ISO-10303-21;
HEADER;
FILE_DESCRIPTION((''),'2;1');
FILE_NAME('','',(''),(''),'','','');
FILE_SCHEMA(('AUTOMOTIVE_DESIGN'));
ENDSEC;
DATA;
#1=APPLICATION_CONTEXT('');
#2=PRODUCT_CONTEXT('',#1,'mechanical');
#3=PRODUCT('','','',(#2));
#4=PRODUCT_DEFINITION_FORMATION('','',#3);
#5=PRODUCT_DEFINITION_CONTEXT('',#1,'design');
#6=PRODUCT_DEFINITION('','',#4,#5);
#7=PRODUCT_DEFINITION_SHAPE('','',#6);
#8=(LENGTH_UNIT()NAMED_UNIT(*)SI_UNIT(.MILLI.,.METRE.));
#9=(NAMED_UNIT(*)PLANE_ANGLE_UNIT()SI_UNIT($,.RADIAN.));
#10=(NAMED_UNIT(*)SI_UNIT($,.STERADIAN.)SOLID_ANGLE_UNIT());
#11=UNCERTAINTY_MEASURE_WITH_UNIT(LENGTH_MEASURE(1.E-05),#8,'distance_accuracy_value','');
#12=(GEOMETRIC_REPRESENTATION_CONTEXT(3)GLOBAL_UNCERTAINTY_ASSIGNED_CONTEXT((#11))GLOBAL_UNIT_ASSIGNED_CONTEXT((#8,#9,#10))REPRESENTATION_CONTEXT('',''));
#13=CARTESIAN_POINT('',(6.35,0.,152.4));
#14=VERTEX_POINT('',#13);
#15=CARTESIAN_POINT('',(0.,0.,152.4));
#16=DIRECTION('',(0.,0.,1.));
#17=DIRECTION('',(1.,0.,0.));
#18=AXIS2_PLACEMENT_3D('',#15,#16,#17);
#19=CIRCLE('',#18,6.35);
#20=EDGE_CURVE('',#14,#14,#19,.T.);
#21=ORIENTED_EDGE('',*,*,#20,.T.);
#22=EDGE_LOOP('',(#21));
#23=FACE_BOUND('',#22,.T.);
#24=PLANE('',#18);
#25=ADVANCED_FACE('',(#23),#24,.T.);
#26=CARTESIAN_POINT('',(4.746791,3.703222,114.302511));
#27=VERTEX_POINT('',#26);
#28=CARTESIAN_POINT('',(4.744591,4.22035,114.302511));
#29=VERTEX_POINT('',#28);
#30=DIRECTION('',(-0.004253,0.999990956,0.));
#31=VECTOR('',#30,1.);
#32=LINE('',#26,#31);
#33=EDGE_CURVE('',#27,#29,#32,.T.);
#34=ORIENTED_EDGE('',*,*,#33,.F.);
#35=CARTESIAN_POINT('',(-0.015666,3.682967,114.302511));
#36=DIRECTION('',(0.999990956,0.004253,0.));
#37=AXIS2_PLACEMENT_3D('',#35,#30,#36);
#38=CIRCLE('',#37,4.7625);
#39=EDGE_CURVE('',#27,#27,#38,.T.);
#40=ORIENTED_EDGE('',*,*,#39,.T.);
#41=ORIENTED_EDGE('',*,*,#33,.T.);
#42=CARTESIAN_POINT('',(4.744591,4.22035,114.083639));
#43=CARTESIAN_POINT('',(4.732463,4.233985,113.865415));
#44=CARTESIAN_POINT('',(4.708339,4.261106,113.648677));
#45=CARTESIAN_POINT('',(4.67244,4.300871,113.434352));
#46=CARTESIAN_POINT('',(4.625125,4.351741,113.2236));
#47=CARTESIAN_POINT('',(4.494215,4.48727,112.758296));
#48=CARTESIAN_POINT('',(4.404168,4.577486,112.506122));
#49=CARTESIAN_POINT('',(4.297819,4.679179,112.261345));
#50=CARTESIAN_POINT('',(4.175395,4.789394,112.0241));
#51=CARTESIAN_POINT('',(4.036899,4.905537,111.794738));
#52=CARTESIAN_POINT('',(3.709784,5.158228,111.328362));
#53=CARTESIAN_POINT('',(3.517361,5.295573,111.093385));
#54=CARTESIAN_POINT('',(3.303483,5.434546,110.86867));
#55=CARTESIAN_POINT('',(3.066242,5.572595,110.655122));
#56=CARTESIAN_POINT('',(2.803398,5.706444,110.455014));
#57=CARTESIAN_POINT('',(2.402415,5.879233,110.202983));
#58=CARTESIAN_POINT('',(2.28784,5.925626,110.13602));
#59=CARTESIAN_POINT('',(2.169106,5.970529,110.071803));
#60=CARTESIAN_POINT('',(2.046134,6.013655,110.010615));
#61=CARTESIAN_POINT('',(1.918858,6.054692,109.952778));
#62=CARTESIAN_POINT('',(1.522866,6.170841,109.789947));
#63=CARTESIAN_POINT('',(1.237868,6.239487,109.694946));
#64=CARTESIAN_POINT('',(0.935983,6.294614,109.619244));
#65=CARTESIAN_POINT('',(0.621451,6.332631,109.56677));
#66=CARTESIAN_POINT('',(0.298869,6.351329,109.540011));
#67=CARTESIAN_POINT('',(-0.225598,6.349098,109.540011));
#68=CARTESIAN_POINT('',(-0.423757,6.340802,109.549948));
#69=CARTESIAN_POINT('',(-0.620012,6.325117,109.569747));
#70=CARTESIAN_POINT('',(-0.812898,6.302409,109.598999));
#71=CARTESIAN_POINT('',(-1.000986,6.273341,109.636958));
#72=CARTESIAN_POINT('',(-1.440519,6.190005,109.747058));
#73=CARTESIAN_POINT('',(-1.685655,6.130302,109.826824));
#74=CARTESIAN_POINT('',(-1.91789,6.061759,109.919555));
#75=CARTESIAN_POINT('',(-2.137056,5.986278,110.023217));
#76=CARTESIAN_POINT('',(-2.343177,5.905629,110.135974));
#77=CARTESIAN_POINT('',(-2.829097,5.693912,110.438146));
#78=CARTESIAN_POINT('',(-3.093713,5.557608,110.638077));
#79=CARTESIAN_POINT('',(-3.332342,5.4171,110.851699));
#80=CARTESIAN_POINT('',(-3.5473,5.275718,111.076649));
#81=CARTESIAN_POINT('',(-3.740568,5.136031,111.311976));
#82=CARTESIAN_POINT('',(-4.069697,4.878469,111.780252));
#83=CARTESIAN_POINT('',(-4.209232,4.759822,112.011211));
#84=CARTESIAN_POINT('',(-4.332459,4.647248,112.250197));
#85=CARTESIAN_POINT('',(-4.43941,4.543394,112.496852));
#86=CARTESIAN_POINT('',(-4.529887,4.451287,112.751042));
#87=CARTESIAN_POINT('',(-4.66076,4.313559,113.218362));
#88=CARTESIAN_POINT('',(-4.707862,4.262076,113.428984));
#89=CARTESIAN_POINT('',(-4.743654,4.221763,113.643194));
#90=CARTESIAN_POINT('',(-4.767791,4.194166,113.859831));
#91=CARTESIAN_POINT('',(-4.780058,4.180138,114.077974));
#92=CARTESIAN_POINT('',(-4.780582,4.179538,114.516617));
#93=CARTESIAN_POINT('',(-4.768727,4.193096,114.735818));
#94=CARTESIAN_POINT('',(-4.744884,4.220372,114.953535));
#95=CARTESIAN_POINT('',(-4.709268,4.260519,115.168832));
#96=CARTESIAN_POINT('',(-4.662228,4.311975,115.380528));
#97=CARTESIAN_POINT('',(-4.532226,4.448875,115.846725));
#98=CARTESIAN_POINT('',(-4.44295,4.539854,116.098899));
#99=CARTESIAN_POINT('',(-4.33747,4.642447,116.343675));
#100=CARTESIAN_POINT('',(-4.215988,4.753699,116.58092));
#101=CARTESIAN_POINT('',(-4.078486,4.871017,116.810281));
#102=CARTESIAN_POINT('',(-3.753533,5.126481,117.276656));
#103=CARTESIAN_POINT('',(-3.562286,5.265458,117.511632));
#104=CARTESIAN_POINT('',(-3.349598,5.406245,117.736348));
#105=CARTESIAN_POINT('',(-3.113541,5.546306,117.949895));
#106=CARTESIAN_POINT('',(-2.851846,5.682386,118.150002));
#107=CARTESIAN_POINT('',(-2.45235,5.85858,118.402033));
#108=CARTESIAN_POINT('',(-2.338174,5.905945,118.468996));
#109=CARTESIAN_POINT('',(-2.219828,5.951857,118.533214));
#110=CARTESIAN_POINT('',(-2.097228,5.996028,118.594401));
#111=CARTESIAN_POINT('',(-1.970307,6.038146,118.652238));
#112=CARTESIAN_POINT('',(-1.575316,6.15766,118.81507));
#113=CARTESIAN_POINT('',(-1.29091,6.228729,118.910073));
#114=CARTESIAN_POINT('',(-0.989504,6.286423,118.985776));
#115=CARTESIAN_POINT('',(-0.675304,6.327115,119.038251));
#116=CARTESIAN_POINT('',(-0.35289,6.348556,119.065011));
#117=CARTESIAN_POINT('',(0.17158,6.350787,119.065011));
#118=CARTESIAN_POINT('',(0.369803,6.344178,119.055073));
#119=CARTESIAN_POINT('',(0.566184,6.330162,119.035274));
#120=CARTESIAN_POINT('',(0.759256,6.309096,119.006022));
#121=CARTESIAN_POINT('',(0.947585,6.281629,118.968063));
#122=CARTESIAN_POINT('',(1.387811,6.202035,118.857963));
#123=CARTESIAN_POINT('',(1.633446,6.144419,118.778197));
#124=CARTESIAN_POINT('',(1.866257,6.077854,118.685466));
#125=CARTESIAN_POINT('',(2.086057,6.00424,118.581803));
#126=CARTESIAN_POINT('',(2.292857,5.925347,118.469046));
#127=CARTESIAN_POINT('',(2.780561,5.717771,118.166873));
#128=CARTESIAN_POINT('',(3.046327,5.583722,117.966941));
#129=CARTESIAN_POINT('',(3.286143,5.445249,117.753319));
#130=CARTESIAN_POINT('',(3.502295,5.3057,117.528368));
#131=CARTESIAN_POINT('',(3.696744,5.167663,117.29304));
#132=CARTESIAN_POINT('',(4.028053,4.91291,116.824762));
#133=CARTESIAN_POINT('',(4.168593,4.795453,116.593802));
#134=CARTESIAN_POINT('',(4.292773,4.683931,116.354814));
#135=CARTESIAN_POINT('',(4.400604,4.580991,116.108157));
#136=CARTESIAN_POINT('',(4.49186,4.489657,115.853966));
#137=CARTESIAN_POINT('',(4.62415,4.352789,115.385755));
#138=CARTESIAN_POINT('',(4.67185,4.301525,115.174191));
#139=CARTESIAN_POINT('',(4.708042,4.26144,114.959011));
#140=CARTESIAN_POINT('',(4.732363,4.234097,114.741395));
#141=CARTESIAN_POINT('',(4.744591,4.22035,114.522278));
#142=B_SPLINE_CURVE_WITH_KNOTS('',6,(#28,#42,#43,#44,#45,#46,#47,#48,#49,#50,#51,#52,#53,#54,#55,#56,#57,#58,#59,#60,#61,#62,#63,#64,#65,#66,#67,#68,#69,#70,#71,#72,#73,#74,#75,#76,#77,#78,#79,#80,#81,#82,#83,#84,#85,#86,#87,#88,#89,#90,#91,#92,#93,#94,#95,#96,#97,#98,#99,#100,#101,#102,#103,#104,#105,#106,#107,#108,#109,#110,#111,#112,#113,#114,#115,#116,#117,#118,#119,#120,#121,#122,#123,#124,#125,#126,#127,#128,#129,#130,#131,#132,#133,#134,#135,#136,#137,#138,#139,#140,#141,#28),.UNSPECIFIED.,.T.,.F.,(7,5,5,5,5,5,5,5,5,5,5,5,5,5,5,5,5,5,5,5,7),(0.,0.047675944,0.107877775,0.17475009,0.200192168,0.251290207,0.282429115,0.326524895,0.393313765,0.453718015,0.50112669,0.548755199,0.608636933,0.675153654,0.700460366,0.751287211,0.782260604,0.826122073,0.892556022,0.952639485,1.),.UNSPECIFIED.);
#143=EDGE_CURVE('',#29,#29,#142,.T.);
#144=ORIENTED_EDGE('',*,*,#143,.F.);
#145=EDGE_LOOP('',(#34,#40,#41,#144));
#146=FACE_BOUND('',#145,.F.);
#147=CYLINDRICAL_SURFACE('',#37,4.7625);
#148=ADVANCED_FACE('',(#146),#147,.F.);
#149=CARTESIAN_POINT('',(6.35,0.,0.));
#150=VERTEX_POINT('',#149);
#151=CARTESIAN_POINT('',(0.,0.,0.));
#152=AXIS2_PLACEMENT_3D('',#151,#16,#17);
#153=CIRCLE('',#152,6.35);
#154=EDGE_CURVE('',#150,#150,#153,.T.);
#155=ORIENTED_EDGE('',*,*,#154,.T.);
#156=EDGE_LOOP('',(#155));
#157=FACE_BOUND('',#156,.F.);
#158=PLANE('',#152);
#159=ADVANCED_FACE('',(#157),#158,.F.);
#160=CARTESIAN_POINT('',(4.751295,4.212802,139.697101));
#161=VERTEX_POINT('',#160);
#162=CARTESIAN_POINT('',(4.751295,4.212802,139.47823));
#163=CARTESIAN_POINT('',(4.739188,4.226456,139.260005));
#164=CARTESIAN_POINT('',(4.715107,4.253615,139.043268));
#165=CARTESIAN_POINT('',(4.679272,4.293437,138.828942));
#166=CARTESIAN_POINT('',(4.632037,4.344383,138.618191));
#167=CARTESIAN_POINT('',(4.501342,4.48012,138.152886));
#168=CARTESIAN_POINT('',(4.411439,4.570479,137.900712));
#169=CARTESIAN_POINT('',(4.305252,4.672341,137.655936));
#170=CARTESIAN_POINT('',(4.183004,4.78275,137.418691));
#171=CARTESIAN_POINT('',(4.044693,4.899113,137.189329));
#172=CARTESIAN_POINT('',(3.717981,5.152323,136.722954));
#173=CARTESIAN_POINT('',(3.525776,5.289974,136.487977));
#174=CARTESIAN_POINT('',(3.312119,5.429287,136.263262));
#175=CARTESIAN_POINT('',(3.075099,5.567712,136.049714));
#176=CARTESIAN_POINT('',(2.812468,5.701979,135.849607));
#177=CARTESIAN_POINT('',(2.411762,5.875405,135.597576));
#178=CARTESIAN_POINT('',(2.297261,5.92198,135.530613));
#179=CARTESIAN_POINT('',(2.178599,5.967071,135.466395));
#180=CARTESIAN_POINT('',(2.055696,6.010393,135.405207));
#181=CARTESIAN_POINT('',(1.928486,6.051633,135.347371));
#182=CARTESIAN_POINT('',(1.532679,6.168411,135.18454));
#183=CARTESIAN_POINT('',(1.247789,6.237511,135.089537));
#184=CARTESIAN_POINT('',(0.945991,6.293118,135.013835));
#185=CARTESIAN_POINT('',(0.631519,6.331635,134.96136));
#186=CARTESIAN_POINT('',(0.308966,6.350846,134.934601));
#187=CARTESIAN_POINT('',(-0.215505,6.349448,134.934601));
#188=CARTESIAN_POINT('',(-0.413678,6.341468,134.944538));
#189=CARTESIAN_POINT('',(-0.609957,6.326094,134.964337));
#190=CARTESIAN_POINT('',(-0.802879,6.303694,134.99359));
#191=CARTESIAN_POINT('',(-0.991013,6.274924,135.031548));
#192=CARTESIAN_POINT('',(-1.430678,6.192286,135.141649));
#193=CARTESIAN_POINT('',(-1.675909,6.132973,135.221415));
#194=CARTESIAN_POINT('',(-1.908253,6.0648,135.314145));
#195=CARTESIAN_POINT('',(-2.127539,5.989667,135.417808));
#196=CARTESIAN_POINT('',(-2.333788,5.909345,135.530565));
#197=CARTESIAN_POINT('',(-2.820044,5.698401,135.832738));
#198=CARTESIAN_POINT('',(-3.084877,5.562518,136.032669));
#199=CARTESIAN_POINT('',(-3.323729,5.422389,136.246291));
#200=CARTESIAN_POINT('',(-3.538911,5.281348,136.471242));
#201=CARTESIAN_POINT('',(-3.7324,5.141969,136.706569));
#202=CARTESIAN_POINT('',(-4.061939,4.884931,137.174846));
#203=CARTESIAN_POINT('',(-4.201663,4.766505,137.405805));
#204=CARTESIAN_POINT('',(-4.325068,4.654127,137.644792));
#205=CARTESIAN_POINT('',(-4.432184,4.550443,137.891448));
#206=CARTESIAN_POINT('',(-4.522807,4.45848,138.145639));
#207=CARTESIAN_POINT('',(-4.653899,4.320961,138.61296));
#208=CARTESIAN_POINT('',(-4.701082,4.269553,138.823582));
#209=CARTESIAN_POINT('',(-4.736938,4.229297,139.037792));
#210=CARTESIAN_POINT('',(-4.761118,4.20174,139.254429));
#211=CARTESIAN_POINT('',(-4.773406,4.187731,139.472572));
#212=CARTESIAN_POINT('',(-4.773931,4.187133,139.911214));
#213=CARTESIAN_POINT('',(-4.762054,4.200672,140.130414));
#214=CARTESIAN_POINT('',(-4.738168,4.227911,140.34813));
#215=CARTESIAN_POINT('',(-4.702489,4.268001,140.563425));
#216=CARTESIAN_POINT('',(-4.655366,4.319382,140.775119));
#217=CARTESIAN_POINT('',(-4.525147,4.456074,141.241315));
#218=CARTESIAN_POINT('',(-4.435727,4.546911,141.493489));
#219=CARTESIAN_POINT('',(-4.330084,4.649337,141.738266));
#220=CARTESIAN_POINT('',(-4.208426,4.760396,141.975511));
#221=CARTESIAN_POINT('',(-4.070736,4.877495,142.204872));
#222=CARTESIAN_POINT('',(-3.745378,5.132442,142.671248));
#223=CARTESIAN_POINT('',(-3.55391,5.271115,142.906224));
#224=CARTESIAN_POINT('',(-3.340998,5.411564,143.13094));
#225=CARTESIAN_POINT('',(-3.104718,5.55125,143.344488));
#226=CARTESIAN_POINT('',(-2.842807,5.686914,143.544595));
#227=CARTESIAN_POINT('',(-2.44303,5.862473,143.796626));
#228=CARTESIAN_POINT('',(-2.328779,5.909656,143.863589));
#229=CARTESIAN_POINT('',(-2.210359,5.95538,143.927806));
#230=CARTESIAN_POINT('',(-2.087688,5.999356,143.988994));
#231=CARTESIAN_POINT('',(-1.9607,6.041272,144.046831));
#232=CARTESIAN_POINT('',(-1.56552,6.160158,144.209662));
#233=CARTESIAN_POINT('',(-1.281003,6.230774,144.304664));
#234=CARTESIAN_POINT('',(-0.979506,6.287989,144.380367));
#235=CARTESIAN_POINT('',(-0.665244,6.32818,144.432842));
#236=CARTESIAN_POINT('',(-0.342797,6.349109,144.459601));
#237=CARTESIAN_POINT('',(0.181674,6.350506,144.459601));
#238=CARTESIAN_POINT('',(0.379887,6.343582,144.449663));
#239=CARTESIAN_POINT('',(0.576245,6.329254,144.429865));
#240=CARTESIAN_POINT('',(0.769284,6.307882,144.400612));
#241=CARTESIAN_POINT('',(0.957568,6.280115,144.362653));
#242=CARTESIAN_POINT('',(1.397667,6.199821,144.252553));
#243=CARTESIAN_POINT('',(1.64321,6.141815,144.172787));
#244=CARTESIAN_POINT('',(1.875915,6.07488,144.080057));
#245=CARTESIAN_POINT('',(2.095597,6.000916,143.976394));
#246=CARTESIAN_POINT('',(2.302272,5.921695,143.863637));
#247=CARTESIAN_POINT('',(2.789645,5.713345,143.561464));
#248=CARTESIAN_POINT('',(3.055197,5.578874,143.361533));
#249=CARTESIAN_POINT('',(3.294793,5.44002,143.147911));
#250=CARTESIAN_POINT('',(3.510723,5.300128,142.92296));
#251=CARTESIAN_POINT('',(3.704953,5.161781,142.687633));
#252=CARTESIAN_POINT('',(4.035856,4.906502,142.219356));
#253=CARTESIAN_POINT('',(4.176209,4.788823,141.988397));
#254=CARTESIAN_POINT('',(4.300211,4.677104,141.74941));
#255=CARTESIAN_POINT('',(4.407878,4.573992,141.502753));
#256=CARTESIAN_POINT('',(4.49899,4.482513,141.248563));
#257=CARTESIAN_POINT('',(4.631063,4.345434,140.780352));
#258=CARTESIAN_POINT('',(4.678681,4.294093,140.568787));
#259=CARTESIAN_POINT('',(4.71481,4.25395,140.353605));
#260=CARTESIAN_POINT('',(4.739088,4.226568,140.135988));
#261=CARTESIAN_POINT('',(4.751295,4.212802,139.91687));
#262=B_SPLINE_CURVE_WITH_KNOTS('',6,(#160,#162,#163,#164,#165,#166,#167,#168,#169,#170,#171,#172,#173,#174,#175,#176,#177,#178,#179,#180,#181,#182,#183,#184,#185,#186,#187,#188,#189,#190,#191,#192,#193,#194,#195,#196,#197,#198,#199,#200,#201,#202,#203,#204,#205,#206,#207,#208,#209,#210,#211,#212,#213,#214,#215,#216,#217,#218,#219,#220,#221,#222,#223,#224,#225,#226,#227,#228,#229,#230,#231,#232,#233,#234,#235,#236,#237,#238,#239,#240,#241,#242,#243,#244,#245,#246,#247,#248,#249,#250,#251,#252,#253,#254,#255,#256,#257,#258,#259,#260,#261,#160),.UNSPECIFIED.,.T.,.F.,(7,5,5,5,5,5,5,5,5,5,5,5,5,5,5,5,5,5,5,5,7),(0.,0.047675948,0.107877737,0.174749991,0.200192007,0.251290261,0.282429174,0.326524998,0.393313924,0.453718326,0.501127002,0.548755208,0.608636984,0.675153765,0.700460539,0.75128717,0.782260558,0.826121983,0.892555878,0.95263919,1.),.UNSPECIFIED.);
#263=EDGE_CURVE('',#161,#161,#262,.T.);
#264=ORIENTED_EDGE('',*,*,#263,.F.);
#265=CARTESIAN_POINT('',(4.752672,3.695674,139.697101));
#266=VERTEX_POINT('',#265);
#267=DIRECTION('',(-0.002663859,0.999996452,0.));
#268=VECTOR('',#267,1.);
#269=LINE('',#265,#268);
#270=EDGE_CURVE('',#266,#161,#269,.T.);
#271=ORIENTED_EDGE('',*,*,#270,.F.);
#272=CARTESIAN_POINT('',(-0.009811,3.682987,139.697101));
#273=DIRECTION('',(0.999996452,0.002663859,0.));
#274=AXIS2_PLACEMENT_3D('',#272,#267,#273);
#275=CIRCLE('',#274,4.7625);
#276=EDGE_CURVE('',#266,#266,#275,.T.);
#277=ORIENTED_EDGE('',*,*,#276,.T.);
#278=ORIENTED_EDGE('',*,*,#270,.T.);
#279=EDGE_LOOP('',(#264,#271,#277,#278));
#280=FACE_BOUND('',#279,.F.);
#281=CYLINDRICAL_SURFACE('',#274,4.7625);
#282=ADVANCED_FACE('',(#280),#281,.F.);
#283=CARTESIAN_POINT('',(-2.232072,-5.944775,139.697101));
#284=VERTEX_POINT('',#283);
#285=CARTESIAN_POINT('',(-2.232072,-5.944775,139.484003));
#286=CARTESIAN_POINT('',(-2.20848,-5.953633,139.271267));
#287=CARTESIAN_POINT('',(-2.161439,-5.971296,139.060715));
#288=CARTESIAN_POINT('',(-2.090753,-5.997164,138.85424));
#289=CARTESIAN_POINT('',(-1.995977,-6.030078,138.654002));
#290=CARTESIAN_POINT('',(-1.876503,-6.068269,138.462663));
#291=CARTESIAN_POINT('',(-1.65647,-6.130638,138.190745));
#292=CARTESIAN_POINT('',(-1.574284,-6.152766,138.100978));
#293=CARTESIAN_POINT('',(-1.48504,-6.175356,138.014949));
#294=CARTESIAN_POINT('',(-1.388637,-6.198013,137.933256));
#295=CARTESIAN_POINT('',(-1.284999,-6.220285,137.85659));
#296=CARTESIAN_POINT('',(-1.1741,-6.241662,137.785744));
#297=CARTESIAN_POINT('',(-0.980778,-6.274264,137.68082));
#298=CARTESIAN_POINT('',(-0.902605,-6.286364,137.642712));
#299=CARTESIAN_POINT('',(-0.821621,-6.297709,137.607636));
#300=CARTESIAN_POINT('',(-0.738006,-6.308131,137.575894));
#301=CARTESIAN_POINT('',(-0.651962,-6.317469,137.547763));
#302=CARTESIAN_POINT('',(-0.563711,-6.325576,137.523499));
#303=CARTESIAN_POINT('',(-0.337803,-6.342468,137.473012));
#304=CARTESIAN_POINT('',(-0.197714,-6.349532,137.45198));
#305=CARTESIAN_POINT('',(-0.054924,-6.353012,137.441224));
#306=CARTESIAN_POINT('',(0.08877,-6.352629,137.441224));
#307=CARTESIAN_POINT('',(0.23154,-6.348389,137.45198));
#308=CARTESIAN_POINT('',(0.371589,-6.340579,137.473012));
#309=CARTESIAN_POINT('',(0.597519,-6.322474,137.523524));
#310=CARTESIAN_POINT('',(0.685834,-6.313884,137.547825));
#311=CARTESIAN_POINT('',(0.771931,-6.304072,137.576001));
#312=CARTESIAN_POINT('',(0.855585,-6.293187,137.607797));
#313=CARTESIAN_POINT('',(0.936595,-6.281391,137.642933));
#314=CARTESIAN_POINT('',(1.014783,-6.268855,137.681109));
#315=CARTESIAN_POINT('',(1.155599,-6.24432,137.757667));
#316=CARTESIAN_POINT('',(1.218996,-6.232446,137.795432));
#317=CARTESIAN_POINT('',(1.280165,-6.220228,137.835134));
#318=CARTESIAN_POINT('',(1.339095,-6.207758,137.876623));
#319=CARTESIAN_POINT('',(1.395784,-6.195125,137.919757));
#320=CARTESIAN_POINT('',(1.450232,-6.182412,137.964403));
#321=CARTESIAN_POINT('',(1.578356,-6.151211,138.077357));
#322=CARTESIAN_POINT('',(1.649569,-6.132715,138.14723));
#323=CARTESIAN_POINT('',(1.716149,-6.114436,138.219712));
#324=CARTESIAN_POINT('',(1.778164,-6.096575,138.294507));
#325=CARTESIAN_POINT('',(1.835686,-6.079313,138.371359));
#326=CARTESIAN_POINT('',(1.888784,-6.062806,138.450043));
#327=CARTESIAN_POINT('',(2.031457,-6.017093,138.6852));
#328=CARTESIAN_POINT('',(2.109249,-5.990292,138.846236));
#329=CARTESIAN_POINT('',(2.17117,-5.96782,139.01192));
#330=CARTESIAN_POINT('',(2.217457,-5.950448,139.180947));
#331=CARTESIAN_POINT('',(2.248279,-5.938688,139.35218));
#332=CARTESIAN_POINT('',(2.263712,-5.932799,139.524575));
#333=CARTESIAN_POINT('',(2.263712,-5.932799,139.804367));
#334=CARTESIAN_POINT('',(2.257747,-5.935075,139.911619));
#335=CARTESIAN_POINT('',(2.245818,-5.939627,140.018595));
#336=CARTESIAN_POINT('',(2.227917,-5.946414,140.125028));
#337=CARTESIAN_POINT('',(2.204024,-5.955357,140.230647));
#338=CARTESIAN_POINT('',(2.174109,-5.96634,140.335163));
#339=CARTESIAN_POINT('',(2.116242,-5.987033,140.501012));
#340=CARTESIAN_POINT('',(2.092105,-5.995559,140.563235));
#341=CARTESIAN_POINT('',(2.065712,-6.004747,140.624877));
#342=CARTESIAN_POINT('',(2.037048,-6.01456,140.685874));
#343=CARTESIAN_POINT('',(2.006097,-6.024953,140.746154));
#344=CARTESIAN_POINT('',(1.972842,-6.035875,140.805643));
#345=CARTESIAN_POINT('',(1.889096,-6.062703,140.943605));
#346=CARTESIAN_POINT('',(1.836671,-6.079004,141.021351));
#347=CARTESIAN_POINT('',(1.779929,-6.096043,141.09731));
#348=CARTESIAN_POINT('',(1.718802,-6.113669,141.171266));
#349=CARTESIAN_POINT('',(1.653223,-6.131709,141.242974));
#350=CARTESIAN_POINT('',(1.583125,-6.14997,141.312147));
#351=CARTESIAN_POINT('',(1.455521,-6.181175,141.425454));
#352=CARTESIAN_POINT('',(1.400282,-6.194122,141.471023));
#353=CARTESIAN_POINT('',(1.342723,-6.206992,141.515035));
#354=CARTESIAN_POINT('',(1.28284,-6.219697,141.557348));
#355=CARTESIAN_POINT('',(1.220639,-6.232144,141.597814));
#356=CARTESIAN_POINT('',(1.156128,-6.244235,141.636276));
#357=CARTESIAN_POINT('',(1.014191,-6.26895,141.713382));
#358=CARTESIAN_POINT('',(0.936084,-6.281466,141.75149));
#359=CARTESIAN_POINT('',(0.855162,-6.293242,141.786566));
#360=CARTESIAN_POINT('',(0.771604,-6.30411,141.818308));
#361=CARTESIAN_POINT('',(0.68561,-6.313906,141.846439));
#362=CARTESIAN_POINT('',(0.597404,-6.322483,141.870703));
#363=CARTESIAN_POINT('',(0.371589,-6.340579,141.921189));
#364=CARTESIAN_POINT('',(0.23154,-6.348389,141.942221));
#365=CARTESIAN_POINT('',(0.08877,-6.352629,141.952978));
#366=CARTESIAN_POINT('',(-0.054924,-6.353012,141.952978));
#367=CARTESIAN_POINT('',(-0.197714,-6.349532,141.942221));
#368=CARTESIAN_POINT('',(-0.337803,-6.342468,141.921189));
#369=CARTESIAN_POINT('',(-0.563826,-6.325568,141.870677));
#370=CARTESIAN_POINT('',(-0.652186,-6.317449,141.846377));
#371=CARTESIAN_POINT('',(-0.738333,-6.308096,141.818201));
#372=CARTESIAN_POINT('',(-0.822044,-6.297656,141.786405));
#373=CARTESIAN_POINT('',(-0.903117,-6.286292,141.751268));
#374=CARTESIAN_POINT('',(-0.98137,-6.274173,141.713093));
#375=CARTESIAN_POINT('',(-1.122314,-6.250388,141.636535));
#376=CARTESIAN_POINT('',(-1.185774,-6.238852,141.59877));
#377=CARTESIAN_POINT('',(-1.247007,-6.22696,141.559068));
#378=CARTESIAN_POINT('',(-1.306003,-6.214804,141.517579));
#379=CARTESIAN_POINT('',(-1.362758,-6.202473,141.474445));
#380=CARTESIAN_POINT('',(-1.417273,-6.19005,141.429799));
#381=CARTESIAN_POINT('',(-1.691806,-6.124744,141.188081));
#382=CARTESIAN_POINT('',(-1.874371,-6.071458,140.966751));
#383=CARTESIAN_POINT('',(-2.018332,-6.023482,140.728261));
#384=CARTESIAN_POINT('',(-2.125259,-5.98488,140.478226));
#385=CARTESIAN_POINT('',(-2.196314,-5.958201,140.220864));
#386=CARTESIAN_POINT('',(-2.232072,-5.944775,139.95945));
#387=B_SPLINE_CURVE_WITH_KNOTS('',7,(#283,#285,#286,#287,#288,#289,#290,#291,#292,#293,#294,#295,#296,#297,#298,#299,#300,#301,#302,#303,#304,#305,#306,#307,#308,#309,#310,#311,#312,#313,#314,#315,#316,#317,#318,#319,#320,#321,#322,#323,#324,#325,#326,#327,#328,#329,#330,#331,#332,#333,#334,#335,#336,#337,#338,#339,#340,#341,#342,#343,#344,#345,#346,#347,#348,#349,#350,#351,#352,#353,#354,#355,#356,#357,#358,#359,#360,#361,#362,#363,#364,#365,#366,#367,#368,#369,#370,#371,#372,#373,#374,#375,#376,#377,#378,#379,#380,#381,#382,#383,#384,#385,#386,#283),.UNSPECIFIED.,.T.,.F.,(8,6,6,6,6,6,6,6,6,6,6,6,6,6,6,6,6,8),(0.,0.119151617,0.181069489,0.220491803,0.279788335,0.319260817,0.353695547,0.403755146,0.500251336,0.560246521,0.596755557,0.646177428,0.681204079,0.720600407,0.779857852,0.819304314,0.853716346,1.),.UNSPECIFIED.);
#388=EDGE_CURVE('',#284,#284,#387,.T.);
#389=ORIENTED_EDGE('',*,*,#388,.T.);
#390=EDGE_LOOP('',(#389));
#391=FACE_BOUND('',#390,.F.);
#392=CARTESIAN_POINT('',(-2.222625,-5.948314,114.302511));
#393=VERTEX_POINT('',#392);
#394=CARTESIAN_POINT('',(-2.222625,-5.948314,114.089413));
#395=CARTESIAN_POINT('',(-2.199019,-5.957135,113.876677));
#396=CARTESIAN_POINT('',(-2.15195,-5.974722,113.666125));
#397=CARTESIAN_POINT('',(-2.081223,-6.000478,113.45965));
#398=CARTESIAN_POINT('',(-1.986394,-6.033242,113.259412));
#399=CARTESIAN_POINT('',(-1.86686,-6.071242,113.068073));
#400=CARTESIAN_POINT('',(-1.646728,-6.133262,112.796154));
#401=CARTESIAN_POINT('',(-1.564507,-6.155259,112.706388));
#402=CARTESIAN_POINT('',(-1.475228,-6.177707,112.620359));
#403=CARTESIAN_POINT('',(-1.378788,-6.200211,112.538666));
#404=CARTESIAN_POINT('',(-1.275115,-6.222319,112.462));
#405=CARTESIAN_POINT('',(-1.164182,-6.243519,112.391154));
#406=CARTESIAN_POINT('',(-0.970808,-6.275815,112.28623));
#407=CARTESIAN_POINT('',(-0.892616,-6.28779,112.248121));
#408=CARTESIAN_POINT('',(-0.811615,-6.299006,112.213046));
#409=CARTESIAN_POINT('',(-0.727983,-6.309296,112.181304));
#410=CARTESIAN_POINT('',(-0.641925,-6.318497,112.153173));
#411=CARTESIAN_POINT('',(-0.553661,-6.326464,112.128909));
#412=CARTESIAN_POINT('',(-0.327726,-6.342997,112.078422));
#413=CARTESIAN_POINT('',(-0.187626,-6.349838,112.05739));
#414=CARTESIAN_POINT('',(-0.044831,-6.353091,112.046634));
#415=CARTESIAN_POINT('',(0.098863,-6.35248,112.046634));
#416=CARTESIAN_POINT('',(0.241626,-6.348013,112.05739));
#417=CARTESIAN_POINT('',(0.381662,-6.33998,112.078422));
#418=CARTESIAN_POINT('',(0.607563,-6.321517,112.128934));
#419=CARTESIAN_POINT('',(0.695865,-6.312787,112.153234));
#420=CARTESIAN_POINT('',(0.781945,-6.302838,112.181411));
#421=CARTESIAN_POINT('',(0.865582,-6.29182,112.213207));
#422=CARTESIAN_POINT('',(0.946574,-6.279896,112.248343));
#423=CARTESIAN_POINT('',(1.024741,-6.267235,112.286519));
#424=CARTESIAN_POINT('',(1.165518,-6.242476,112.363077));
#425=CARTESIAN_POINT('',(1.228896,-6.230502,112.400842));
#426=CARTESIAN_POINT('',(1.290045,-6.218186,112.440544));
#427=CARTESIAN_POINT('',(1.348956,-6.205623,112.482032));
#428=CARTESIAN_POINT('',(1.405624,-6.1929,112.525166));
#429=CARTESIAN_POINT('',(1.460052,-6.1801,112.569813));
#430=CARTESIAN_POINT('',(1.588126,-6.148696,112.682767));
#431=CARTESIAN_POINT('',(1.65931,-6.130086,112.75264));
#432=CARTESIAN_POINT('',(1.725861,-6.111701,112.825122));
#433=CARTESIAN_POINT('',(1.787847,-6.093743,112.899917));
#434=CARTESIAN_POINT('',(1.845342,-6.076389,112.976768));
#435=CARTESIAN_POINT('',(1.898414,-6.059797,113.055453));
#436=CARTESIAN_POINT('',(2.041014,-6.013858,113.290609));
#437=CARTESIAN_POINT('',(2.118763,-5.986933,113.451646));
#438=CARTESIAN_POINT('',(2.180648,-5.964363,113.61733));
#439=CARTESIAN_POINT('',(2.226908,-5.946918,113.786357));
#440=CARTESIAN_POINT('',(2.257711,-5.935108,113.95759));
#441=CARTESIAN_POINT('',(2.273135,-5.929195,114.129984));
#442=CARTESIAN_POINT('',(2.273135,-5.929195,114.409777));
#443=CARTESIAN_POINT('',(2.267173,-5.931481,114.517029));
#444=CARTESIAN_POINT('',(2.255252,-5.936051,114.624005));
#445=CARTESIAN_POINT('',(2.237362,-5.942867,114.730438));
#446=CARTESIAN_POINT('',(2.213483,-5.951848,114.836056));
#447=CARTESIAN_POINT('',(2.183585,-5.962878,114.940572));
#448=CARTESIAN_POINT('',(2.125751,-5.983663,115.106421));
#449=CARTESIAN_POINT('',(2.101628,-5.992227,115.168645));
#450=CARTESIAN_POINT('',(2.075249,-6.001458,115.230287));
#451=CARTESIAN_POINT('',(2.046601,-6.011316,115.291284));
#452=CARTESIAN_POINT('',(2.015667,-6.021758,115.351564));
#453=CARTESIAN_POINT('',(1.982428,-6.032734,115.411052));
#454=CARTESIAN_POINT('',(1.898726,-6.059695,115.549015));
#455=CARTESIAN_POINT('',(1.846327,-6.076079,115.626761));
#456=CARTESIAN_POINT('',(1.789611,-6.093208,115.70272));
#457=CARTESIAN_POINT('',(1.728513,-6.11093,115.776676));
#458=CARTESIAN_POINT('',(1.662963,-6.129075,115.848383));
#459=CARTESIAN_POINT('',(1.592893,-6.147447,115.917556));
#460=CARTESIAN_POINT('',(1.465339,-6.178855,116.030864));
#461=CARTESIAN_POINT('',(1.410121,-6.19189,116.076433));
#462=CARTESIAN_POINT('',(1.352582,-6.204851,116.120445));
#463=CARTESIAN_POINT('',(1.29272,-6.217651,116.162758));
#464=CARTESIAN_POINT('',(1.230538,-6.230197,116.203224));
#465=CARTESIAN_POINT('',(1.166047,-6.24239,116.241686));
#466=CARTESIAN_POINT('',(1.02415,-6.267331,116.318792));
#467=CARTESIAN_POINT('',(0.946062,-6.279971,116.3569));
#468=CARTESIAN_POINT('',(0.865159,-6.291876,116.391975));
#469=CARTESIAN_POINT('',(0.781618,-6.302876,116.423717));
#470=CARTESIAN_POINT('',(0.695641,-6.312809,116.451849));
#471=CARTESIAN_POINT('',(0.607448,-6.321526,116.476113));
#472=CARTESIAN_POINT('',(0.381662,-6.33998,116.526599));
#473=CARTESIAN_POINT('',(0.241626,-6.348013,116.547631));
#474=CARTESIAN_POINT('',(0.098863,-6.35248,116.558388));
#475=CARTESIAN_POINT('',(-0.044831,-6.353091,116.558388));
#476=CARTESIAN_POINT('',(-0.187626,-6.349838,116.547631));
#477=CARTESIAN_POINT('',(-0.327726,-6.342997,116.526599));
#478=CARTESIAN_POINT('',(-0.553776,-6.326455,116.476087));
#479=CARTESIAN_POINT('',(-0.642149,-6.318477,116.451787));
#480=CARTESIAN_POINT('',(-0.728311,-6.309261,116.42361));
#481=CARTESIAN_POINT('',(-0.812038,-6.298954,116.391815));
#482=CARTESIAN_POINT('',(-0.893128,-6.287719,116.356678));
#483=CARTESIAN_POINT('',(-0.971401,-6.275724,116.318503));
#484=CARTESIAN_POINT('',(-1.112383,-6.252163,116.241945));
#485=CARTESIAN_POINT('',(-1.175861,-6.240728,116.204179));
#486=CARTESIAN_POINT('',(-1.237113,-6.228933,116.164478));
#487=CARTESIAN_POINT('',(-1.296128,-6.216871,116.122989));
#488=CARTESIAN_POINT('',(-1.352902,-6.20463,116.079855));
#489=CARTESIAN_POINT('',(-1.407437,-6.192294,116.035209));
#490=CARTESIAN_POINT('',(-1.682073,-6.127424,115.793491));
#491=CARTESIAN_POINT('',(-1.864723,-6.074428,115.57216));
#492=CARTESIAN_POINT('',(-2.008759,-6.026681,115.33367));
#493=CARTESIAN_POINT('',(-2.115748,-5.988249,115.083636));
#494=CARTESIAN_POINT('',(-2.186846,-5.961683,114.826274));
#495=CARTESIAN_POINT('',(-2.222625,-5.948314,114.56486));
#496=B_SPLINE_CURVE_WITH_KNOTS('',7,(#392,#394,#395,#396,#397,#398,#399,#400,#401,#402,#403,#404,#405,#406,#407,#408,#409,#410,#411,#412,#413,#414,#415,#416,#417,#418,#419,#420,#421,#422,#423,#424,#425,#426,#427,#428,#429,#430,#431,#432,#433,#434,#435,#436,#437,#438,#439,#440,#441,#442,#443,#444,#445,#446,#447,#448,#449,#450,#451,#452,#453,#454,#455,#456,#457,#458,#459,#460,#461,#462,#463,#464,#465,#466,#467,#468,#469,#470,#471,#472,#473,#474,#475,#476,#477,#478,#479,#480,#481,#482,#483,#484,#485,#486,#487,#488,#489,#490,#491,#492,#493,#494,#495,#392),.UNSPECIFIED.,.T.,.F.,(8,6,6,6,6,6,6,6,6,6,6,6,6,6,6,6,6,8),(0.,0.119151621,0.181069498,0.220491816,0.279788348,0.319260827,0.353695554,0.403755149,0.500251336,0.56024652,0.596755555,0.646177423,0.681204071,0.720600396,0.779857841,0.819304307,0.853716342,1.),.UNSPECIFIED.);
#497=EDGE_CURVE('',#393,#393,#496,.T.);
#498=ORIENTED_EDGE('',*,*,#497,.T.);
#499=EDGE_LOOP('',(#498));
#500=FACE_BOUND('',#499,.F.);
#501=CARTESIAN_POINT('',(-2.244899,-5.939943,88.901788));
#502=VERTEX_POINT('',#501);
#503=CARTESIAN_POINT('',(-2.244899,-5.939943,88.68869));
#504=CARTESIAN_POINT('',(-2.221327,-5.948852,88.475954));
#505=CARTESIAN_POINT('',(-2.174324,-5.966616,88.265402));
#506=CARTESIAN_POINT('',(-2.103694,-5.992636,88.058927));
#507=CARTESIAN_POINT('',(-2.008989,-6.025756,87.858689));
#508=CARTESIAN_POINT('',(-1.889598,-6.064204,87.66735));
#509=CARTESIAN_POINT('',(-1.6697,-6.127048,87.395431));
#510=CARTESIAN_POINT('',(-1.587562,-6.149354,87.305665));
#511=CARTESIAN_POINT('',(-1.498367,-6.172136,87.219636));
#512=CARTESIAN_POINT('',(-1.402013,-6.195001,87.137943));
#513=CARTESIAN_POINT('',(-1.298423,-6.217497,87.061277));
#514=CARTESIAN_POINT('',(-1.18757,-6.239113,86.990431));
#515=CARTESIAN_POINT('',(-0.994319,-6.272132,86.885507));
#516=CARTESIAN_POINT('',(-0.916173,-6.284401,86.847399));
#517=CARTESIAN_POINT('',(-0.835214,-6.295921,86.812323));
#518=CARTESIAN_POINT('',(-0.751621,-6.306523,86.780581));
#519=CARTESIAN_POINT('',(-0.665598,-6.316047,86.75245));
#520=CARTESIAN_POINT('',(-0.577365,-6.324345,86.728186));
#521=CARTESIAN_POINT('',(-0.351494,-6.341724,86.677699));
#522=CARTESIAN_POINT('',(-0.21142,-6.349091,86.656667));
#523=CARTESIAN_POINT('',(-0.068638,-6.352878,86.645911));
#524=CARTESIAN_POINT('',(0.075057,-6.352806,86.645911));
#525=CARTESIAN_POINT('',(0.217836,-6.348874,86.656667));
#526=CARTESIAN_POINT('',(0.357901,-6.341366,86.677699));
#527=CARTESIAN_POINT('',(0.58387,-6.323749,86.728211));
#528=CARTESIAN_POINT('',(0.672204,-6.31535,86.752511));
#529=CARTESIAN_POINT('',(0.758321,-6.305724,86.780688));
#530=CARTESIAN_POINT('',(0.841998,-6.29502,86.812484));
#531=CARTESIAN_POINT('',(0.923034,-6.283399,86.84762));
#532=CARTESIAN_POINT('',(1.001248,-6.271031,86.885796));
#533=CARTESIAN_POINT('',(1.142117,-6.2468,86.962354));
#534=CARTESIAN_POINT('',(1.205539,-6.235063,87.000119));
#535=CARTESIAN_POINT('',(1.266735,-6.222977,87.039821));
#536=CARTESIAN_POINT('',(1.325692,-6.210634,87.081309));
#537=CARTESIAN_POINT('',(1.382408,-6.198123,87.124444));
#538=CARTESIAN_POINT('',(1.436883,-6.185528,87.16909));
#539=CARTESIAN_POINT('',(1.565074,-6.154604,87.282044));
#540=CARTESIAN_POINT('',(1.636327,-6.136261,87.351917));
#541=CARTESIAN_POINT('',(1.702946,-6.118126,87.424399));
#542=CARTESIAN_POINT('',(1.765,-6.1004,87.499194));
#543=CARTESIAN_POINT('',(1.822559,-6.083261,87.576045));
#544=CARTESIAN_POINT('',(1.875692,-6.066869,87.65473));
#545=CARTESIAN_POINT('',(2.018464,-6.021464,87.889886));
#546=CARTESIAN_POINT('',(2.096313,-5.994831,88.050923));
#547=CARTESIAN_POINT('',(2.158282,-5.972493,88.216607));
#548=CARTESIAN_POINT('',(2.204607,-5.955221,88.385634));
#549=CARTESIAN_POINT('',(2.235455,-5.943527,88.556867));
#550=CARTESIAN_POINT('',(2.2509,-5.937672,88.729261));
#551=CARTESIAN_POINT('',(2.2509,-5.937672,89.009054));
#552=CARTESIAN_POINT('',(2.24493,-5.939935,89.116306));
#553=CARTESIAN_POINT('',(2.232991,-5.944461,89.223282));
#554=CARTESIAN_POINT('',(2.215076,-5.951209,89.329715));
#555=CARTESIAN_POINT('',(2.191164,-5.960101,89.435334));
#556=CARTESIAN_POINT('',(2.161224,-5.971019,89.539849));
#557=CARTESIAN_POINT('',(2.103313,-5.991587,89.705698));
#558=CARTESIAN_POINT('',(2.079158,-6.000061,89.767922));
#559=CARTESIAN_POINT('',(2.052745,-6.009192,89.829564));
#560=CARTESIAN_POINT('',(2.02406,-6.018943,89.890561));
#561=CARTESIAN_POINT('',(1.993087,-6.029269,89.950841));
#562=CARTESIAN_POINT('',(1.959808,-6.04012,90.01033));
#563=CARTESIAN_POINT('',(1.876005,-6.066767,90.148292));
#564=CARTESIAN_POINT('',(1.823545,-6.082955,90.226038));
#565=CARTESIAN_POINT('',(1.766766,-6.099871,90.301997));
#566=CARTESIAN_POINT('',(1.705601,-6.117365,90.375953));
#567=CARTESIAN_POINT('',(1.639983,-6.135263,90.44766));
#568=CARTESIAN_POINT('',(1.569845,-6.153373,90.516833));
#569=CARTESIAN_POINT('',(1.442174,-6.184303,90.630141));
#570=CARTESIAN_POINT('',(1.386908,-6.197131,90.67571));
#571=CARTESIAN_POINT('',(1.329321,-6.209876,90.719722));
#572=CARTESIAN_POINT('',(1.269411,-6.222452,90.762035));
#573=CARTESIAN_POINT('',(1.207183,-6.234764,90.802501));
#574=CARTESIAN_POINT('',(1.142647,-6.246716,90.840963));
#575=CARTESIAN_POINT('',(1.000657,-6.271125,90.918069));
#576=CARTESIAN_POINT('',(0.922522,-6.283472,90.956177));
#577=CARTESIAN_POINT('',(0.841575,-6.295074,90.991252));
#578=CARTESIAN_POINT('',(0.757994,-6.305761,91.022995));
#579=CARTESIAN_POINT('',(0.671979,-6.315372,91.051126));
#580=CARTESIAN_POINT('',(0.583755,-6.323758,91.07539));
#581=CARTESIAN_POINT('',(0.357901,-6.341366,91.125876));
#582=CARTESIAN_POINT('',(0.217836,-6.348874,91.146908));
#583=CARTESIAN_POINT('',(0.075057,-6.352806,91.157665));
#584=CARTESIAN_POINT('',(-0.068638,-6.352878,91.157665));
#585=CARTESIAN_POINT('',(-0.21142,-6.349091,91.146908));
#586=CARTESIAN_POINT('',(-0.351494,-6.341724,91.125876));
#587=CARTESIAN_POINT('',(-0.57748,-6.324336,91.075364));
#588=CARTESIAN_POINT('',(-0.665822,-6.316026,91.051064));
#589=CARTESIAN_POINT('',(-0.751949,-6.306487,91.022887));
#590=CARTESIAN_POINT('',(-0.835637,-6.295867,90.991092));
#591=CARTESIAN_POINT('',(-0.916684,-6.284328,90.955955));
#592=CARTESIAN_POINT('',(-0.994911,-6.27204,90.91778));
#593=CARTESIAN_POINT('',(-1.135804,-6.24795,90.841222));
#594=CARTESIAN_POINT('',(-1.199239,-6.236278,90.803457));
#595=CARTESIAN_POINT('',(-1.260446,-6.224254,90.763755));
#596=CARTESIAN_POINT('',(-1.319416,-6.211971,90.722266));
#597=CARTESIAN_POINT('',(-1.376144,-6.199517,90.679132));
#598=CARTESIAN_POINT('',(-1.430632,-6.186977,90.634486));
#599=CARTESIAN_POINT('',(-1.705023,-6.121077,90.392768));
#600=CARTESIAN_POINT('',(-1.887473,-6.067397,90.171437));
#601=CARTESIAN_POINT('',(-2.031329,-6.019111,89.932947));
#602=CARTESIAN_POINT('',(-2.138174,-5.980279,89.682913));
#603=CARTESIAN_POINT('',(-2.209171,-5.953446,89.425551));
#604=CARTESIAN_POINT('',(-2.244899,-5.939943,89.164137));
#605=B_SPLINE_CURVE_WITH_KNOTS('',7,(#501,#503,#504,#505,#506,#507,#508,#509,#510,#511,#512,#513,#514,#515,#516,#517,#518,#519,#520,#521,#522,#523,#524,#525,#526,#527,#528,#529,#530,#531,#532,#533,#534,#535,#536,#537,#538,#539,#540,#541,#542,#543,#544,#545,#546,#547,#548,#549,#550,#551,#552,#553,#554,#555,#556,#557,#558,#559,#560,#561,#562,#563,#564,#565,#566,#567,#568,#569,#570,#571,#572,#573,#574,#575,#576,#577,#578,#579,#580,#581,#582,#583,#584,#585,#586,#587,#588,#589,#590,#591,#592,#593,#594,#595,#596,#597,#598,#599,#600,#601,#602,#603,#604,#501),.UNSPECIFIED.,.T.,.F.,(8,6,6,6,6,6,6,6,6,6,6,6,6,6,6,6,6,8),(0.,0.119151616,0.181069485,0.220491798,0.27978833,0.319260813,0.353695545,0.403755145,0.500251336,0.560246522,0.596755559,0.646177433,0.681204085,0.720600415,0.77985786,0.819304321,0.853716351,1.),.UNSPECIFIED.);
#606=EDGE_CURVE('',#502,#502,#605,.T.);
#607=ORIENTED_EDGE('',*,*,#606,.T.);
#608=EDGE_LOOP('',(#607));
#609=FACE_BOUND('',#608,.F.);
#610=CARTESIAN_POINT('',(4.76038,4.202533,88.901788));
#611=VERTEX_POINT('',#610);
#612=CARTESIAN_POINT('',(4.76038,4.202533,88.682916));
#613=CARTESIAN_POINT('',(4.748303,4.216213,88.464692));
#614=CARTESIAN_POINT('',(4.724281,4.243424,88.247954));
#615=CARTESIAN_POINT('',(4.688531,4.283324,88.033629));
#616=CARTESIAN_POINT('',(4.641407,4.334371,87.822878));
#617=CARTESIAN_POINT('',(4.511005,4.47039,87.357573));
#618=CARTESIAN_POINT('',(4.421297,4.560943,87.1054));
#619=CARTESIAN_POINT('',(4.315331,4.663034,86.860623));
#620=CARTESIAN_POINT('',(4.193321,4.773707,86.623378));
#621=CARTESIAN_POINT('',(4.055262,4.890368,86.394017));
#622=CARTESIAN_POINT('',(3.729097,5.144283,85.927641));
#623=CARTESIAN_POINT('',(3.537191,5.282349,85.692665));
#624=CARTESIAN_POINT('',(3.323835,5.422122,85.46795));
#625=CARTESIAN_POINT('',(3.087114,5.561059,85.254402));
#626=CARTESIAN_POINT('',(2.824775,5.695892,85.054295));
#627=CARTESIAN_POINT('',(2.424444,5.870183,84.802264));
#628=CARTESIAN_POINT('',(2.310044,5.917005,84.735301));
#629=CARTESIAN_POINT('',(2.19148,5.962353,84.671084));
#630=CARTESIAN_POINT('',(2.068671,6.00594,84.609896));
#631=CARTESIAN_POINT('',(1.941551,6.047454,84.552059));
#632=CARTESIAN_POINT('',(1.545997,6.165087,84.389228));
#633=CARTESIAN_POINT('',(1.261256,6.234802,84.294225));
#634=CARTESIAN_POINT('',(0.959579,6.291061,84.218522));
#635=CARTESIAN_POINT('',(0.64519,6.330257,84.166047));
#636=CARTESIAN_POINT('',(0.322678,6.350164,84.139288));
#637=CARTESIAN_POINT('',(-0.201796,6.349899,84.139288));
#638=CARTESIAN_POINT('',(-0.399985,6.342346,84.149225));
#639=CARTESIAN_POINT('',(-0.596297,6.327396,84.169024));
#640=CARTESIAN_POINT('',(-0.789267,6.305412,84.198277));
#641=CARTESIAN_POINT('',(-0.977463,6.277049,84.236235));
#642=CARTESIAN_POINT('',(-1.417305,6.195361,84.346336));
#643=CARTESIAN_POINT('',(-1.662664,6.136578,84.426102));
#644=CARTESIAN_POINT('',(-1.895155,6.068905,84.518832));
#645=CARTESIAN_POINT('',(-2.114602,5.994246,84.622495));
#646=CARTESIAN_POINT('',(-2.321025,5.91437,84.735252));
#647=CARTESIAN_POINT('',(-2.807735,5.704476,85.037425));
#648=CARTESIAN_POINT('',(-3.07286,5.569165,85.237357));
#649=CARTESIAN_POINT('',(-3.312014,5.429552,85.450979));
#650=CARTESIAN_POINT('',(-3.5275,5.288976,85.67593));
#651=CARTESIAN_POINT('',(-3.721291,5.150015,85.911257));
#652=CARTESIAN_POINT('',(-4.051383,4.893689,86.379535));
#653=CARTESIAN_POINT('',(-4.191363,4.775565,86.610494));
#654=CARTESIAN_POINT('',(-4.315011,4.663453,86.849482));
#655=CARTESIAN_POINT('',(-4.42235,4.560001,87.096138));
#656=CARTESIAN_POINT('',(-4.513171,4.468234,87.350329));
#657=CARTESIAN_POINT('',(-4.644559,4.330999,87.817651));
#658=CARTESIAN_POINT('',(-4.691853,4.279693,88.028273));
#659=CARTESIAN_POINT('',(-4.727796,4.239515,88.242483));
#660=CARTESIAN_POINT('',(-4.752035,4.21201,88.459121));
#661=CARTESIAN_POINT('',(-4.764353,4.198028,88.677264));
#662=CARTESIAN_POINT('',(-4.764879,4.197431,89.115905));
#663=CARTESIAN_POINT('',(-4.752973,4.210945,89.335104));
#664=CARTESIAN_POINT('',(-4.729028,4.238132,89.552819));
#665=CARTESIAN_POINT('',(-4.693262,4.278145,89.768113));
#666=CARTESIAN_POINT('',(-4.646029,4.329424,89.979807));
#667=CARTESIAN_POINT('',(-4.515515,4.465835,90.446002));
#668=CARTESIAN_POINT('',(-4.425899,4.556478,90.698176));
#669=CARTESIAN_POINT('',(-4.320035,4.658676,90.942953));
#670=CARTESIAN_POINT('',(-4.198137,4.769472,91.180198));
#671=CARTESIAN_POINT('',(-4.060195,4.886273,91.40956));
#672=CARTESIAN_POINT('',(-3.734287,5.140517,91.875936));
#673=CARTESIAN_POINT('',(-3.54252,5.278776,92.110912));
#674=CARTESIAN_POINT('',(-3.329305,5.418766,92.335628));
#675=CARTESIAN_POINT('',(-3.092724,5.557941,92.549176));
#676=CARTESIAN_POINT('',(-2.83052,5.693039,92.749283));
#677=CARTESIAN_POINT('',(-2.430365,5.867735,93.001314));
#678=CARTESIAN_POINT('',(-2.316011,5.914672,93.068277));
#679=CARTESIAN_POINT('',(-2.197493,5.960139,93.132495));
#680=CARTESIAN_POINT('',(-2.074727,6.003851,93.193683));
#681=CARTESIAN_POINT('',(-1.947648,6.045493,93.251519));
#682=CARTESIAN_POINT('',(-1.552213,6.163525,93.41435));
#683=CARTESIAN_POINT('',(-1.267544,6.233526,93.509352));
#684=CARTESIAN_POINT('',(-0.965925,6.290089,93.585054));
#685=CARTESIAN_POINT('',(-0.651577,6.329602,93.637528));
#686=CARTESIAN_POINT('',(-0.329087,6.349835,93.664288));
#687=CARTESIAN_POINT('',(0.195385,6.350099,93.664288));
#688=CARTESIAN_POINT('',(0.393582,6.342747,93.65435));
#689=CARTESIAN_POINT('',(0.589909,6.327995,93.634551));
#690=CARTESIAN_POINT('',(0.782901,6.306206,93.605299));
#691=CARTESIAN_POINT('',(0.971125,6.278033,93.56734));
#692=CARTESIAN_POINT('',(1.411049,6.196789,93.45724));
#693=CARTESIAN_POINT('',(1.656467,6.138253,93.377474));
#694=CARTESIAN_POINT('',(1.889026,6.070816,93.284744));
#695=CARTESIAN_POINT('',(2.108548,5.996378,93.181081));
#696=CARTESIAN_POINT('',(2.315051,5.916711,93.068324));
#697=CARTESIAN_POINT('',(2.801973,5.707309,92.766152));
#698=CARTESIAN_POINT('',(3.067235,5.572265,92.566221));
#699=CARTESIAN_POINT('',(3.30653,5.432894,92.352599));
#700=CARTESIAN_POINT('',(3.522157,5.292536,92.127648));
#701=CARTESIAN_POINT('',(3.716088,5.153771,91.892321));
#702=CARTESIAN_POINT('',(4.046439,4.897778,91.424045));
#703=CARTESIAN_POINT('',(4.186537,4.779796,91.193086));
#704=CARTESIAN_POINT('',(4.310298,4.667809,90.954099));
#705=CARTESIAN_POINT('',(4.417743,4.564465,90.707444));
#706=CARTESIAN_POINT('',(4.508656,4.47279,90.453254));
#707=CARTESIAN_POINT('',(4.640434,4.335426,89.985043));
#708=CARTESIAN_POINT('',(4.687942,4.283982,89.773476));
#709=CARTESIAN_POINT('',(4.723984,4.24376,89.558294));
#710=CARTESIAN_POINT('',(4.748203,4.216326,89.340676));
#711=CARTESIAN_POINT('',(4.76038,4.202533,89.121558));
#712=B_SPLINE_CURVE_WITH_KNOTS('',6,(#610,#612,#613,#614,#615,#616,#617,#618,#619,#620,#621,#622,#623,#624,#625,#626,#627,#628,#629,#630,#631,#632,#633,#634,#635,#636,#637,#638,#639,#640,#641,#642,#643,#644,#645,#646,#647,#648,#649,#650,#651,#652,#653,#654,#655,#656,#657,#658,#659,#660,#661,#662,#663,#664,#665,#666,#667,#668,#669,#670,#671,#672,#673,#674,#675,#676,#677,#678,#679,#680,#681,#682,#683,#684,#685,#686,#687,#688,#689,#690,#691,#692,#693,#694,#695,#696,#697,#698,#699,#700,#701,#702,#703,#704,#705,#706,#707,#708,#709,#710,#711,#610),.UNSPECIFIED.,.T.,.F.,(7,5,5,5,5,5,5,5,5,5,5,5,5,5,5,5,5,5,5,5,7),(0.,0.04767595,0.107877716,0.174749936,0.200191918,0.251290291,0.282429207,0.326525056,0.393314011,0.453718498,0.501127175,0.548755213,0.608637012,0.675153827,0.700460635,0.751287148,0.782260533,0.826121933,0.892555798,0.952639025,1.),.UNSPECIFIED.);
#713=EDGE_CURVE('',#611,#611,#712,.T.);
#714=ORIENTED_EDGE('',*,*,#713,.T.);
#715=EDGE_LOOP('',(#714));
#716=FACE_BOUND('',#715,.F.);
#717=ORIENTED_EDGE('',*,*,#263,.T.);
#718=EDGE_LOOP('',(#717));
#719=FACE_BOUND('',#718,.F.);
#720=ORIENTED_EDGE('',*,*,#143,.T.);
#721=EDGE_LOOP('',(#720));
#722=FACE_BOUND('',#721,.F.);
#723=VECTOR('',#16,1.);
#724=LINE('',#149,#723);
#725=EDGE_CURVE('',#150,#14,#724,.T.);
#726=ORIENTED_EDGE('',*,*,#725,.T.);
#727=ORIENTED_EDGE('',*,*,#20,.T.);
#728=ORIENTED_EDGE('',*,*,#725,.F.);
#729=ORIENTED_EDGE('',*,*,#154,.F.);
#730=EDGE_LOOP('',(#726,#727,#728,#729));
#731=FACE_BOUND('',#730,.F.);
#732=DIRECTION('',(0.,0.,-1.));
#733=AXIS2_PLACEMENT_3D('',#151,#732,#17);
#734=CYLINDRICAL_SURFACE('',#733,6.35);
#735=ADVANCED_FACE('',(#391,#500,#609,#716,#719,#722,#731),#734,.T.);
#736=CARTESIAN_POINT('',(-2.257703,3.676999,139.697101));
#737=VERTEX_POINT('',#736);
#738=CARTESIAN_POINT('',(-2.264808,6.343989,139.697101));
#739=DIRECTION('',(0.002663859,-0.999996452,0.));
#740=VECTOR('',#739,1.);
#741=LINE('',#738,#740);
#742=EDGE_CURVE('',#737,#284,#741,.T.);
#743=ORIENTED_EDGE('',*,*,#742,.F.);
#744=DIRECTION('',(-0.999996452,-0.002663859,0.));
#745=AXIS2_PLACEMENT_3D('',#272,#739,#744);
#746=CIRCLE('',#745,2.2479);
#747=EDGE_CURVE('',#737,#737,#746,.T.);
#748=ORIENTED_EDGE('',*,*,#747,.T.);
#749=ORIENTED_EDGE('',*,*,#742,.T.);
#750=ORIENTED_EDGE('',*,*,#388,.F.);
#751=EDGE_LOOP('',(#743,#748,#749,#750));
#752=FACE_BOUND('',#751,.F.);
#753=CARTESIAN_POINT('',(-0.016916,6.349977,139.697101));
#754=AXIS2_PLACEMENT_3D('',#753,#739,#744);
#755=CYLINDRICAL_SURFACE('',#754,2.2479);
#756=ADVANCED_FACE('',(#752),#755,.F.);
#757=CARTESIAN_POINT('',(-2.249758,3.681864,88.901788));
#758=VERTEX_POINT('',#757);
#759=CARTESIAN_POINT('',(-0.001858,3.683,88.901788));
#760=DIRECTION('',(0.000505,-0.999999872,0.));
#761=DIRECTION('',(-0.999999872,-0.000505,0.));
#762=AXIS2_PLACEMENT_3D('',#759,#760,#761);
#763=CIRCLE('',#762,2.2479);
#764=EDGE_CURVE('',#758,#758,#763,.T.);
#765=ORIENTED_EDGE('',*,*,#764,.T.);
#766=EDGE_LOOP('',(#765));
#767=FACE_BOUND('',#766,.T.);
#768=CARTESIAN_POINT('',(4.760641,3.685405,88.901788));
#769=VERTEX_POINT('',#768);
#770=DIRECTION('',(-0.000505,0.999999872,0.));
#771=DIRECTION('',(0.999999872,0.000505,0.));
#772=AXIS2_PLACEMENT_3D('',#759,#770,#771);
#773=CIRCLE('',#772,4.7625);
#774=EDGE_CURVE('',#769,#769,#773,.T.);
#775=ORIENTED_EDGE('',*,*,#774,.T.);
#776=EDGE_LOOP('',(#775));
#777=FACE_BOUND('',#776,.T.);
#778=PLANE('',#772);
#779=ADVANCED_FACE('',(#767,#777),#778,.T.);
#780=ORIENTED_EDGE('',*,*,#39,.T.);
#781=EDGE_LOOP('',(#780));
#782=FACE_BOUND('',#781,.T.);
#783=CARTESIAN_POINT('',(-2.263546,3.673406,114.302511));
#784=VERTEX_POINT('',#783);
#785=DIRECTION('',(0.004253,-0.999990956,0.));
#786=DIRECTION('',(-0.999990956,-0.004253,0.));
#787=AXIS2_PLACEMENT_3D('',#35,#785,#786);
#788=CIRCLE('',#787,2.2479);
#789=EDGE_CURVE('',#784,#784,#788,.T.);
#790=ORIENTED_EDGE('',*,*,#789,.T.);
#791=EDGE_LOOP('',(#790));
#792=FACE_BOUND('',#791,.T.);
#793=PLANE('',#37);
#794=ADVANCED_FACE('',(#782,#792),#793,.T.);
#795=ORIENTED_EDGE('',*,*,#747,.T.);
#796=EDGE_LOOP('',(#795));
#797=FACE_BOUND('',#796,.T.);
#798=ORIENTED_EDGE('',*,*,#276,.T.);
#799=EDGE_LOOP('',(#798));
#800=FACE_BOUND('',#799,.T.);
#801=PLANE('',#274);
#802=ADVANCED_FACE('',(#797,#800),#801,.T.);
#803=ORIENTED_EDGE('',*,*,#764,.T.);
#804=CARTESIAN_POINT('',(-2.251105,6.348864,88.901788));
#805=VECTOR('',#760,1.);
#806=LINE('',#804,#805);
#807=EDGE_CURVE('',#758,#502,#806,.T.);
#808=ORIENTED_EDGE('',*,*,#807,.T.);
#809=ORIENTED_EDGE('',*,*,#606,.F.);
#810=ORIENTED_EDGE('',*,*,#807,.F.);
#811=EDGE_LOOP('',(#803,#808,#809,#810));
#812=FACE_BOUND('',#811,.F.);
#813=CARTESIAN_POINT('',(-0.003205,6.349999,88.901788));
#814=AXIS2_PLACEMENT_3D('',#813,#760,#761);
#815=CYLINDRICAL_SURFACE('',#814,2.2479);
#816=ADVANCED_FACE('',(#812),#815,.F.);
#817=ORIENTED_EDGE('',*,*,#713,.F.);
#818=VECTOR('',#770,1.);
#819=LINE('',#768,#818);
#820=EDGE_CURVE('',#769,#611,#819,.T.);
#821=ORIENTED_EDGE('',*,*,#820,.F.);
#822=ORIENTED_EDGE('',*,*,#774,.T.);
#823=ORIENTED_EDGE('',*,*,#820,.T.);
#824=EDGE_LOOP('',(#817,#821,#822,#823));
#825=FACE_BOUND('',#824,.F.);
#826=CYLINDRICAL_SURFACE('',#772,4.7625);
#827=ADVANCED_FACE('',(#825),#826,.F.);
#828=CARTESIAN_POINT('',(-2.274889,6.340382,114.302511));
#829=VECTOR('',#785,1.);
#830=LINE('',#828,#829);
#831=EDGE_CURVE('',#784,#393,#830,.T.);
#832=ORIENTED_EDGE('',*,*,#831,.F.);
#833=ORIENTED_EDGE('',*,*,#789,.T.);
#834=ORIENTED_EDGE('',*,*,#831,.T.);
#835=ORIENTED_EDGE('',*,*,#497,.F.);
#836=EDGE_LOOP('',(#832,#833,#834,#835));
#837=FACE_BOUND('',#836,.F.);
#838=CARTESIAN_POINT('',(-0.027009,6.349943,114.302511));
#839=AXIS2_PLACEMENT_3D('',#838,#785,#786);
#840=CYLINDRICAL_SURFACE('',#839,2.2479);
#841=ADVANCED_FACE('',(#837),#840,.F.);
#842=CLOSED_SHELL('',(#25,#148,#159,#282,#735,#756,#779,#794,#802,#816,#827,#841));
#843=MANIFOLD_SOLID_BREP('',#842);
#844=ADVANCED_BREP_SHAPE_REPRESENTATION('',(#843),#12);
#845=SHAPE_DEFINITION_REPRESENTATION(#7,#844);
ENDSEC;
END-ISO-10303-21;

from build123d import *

# Parameters (mm, degrees)
SKETCH1_R                                           = 6.35
BOSS_EXTRUDE1_DEPTH                                 = 152.4
CBORE_FOR_8_BINDING_HEAD_MACHINE_SCREW1_D           = 4.4958
CBORE_FOR_8_BINDING_HEAD_MACHINE_SCREW1_CBORE_D     = 9.525
CBORE_FOR_8_BINDING_HEAD_MACHINE_SCREW1_CBORE_DEPTH = 2.667
CBORE_FOR_8_BINDING_HEAD_MACHINE_SC_2_D             = 4.4958
CBORE_FOR_8_BINDING_HEAD_MACHINE_SC_2_CBORE_D       = 9.525
CBORE_FOR_8_BINDING_HEAD_MACHINE_SC_2_CBORE_DEPTH   = 2.667
CBORE_FOR_8_BINDING_HEAD_MACHINE_SC_3_D             = 4.4958
CBORE_FOR_8_BINDING_HEAD_MACHINE_SC_3_CBORE_D       = 9.525
CBORE_FOR_8_BINDING_HEAD_MACHINE_SC_3_CBORE_DEPTH   = 2.667


with BuildPart() as part:
    # Sketch1 → Boss-Extrude1 (new body)
    with BuildSketch(Plane.XY):
        Circle(SKETCH1_R)
    extrude(amount=BOSS_EXTRUDE1_DEPTH)

    # CBORE for #8 Binding Head Machine Screw1 (through all)
    with Locations(Plane(origin=(-0.016915507, 6.34997747, 139.69710088), x_dir=(0.999996452, 0.002663859, 0), z_dir=(-0.002663859, 0.999996452, 0))):
        with Locations((0, 0)):
            CounterBoreHole(CBORE_FOR_8_BINDING_HEAD_MACHINE_SCREW1_D / 2, CBORE_FOR_8_BINDING_HEAD_MACHINE_SCREW1_CBORE_D / 2, CBORE_FOR_8_BINDING_HEAD_MACHINE_SCREW1_CBORE_DEPTH)

    # CBORE for _8 Binding Head Machine Sc 2 (through all)
    with Locations(Plane(origin=(-0.027009151, 6.349942559, 114.302510667), x_dir=(0.999990956, 0.004253, 0), z_dir=(-0.004253, 0.999990956, 0))):
        with Locations((0, 0)):
            CounterBoreHole(CBORE_FOR_8_BINDING_HEAD_MACHINE_SC_2_D / 2, CBORE_FOR_8_BINDING_HEAD_MACHINE_SC_2_CBORE_D / 2, CBORE_FOR_8_BINDING_HEAD_MACHINE_SC_2_CBORE_DEPTH)

    # CBORE for _8 Binding Head Machine Sc 3 (through all)
    with Locations(Plane(origin=(-0.003205304, 6.349999191, 88.90178774), x_dir=(0.999999872, 0.000505, 0), z_dir=(-0.000505, 0.999999872, 0))):
        with Locations((0, 0)):
            CounterBoreHole(CBORE_FOR_8_BINDING_HEAD_MACHINE_SC_3_D / 2, CBORE_FOR_8_BINDING_HEAD_MACHINE_SC_3_CBORE_D / 2, CBORE_FOR_8_BINDING_HEAD_MACHINE_SC_3_CBORE_DEPTH)


solid = part.part
